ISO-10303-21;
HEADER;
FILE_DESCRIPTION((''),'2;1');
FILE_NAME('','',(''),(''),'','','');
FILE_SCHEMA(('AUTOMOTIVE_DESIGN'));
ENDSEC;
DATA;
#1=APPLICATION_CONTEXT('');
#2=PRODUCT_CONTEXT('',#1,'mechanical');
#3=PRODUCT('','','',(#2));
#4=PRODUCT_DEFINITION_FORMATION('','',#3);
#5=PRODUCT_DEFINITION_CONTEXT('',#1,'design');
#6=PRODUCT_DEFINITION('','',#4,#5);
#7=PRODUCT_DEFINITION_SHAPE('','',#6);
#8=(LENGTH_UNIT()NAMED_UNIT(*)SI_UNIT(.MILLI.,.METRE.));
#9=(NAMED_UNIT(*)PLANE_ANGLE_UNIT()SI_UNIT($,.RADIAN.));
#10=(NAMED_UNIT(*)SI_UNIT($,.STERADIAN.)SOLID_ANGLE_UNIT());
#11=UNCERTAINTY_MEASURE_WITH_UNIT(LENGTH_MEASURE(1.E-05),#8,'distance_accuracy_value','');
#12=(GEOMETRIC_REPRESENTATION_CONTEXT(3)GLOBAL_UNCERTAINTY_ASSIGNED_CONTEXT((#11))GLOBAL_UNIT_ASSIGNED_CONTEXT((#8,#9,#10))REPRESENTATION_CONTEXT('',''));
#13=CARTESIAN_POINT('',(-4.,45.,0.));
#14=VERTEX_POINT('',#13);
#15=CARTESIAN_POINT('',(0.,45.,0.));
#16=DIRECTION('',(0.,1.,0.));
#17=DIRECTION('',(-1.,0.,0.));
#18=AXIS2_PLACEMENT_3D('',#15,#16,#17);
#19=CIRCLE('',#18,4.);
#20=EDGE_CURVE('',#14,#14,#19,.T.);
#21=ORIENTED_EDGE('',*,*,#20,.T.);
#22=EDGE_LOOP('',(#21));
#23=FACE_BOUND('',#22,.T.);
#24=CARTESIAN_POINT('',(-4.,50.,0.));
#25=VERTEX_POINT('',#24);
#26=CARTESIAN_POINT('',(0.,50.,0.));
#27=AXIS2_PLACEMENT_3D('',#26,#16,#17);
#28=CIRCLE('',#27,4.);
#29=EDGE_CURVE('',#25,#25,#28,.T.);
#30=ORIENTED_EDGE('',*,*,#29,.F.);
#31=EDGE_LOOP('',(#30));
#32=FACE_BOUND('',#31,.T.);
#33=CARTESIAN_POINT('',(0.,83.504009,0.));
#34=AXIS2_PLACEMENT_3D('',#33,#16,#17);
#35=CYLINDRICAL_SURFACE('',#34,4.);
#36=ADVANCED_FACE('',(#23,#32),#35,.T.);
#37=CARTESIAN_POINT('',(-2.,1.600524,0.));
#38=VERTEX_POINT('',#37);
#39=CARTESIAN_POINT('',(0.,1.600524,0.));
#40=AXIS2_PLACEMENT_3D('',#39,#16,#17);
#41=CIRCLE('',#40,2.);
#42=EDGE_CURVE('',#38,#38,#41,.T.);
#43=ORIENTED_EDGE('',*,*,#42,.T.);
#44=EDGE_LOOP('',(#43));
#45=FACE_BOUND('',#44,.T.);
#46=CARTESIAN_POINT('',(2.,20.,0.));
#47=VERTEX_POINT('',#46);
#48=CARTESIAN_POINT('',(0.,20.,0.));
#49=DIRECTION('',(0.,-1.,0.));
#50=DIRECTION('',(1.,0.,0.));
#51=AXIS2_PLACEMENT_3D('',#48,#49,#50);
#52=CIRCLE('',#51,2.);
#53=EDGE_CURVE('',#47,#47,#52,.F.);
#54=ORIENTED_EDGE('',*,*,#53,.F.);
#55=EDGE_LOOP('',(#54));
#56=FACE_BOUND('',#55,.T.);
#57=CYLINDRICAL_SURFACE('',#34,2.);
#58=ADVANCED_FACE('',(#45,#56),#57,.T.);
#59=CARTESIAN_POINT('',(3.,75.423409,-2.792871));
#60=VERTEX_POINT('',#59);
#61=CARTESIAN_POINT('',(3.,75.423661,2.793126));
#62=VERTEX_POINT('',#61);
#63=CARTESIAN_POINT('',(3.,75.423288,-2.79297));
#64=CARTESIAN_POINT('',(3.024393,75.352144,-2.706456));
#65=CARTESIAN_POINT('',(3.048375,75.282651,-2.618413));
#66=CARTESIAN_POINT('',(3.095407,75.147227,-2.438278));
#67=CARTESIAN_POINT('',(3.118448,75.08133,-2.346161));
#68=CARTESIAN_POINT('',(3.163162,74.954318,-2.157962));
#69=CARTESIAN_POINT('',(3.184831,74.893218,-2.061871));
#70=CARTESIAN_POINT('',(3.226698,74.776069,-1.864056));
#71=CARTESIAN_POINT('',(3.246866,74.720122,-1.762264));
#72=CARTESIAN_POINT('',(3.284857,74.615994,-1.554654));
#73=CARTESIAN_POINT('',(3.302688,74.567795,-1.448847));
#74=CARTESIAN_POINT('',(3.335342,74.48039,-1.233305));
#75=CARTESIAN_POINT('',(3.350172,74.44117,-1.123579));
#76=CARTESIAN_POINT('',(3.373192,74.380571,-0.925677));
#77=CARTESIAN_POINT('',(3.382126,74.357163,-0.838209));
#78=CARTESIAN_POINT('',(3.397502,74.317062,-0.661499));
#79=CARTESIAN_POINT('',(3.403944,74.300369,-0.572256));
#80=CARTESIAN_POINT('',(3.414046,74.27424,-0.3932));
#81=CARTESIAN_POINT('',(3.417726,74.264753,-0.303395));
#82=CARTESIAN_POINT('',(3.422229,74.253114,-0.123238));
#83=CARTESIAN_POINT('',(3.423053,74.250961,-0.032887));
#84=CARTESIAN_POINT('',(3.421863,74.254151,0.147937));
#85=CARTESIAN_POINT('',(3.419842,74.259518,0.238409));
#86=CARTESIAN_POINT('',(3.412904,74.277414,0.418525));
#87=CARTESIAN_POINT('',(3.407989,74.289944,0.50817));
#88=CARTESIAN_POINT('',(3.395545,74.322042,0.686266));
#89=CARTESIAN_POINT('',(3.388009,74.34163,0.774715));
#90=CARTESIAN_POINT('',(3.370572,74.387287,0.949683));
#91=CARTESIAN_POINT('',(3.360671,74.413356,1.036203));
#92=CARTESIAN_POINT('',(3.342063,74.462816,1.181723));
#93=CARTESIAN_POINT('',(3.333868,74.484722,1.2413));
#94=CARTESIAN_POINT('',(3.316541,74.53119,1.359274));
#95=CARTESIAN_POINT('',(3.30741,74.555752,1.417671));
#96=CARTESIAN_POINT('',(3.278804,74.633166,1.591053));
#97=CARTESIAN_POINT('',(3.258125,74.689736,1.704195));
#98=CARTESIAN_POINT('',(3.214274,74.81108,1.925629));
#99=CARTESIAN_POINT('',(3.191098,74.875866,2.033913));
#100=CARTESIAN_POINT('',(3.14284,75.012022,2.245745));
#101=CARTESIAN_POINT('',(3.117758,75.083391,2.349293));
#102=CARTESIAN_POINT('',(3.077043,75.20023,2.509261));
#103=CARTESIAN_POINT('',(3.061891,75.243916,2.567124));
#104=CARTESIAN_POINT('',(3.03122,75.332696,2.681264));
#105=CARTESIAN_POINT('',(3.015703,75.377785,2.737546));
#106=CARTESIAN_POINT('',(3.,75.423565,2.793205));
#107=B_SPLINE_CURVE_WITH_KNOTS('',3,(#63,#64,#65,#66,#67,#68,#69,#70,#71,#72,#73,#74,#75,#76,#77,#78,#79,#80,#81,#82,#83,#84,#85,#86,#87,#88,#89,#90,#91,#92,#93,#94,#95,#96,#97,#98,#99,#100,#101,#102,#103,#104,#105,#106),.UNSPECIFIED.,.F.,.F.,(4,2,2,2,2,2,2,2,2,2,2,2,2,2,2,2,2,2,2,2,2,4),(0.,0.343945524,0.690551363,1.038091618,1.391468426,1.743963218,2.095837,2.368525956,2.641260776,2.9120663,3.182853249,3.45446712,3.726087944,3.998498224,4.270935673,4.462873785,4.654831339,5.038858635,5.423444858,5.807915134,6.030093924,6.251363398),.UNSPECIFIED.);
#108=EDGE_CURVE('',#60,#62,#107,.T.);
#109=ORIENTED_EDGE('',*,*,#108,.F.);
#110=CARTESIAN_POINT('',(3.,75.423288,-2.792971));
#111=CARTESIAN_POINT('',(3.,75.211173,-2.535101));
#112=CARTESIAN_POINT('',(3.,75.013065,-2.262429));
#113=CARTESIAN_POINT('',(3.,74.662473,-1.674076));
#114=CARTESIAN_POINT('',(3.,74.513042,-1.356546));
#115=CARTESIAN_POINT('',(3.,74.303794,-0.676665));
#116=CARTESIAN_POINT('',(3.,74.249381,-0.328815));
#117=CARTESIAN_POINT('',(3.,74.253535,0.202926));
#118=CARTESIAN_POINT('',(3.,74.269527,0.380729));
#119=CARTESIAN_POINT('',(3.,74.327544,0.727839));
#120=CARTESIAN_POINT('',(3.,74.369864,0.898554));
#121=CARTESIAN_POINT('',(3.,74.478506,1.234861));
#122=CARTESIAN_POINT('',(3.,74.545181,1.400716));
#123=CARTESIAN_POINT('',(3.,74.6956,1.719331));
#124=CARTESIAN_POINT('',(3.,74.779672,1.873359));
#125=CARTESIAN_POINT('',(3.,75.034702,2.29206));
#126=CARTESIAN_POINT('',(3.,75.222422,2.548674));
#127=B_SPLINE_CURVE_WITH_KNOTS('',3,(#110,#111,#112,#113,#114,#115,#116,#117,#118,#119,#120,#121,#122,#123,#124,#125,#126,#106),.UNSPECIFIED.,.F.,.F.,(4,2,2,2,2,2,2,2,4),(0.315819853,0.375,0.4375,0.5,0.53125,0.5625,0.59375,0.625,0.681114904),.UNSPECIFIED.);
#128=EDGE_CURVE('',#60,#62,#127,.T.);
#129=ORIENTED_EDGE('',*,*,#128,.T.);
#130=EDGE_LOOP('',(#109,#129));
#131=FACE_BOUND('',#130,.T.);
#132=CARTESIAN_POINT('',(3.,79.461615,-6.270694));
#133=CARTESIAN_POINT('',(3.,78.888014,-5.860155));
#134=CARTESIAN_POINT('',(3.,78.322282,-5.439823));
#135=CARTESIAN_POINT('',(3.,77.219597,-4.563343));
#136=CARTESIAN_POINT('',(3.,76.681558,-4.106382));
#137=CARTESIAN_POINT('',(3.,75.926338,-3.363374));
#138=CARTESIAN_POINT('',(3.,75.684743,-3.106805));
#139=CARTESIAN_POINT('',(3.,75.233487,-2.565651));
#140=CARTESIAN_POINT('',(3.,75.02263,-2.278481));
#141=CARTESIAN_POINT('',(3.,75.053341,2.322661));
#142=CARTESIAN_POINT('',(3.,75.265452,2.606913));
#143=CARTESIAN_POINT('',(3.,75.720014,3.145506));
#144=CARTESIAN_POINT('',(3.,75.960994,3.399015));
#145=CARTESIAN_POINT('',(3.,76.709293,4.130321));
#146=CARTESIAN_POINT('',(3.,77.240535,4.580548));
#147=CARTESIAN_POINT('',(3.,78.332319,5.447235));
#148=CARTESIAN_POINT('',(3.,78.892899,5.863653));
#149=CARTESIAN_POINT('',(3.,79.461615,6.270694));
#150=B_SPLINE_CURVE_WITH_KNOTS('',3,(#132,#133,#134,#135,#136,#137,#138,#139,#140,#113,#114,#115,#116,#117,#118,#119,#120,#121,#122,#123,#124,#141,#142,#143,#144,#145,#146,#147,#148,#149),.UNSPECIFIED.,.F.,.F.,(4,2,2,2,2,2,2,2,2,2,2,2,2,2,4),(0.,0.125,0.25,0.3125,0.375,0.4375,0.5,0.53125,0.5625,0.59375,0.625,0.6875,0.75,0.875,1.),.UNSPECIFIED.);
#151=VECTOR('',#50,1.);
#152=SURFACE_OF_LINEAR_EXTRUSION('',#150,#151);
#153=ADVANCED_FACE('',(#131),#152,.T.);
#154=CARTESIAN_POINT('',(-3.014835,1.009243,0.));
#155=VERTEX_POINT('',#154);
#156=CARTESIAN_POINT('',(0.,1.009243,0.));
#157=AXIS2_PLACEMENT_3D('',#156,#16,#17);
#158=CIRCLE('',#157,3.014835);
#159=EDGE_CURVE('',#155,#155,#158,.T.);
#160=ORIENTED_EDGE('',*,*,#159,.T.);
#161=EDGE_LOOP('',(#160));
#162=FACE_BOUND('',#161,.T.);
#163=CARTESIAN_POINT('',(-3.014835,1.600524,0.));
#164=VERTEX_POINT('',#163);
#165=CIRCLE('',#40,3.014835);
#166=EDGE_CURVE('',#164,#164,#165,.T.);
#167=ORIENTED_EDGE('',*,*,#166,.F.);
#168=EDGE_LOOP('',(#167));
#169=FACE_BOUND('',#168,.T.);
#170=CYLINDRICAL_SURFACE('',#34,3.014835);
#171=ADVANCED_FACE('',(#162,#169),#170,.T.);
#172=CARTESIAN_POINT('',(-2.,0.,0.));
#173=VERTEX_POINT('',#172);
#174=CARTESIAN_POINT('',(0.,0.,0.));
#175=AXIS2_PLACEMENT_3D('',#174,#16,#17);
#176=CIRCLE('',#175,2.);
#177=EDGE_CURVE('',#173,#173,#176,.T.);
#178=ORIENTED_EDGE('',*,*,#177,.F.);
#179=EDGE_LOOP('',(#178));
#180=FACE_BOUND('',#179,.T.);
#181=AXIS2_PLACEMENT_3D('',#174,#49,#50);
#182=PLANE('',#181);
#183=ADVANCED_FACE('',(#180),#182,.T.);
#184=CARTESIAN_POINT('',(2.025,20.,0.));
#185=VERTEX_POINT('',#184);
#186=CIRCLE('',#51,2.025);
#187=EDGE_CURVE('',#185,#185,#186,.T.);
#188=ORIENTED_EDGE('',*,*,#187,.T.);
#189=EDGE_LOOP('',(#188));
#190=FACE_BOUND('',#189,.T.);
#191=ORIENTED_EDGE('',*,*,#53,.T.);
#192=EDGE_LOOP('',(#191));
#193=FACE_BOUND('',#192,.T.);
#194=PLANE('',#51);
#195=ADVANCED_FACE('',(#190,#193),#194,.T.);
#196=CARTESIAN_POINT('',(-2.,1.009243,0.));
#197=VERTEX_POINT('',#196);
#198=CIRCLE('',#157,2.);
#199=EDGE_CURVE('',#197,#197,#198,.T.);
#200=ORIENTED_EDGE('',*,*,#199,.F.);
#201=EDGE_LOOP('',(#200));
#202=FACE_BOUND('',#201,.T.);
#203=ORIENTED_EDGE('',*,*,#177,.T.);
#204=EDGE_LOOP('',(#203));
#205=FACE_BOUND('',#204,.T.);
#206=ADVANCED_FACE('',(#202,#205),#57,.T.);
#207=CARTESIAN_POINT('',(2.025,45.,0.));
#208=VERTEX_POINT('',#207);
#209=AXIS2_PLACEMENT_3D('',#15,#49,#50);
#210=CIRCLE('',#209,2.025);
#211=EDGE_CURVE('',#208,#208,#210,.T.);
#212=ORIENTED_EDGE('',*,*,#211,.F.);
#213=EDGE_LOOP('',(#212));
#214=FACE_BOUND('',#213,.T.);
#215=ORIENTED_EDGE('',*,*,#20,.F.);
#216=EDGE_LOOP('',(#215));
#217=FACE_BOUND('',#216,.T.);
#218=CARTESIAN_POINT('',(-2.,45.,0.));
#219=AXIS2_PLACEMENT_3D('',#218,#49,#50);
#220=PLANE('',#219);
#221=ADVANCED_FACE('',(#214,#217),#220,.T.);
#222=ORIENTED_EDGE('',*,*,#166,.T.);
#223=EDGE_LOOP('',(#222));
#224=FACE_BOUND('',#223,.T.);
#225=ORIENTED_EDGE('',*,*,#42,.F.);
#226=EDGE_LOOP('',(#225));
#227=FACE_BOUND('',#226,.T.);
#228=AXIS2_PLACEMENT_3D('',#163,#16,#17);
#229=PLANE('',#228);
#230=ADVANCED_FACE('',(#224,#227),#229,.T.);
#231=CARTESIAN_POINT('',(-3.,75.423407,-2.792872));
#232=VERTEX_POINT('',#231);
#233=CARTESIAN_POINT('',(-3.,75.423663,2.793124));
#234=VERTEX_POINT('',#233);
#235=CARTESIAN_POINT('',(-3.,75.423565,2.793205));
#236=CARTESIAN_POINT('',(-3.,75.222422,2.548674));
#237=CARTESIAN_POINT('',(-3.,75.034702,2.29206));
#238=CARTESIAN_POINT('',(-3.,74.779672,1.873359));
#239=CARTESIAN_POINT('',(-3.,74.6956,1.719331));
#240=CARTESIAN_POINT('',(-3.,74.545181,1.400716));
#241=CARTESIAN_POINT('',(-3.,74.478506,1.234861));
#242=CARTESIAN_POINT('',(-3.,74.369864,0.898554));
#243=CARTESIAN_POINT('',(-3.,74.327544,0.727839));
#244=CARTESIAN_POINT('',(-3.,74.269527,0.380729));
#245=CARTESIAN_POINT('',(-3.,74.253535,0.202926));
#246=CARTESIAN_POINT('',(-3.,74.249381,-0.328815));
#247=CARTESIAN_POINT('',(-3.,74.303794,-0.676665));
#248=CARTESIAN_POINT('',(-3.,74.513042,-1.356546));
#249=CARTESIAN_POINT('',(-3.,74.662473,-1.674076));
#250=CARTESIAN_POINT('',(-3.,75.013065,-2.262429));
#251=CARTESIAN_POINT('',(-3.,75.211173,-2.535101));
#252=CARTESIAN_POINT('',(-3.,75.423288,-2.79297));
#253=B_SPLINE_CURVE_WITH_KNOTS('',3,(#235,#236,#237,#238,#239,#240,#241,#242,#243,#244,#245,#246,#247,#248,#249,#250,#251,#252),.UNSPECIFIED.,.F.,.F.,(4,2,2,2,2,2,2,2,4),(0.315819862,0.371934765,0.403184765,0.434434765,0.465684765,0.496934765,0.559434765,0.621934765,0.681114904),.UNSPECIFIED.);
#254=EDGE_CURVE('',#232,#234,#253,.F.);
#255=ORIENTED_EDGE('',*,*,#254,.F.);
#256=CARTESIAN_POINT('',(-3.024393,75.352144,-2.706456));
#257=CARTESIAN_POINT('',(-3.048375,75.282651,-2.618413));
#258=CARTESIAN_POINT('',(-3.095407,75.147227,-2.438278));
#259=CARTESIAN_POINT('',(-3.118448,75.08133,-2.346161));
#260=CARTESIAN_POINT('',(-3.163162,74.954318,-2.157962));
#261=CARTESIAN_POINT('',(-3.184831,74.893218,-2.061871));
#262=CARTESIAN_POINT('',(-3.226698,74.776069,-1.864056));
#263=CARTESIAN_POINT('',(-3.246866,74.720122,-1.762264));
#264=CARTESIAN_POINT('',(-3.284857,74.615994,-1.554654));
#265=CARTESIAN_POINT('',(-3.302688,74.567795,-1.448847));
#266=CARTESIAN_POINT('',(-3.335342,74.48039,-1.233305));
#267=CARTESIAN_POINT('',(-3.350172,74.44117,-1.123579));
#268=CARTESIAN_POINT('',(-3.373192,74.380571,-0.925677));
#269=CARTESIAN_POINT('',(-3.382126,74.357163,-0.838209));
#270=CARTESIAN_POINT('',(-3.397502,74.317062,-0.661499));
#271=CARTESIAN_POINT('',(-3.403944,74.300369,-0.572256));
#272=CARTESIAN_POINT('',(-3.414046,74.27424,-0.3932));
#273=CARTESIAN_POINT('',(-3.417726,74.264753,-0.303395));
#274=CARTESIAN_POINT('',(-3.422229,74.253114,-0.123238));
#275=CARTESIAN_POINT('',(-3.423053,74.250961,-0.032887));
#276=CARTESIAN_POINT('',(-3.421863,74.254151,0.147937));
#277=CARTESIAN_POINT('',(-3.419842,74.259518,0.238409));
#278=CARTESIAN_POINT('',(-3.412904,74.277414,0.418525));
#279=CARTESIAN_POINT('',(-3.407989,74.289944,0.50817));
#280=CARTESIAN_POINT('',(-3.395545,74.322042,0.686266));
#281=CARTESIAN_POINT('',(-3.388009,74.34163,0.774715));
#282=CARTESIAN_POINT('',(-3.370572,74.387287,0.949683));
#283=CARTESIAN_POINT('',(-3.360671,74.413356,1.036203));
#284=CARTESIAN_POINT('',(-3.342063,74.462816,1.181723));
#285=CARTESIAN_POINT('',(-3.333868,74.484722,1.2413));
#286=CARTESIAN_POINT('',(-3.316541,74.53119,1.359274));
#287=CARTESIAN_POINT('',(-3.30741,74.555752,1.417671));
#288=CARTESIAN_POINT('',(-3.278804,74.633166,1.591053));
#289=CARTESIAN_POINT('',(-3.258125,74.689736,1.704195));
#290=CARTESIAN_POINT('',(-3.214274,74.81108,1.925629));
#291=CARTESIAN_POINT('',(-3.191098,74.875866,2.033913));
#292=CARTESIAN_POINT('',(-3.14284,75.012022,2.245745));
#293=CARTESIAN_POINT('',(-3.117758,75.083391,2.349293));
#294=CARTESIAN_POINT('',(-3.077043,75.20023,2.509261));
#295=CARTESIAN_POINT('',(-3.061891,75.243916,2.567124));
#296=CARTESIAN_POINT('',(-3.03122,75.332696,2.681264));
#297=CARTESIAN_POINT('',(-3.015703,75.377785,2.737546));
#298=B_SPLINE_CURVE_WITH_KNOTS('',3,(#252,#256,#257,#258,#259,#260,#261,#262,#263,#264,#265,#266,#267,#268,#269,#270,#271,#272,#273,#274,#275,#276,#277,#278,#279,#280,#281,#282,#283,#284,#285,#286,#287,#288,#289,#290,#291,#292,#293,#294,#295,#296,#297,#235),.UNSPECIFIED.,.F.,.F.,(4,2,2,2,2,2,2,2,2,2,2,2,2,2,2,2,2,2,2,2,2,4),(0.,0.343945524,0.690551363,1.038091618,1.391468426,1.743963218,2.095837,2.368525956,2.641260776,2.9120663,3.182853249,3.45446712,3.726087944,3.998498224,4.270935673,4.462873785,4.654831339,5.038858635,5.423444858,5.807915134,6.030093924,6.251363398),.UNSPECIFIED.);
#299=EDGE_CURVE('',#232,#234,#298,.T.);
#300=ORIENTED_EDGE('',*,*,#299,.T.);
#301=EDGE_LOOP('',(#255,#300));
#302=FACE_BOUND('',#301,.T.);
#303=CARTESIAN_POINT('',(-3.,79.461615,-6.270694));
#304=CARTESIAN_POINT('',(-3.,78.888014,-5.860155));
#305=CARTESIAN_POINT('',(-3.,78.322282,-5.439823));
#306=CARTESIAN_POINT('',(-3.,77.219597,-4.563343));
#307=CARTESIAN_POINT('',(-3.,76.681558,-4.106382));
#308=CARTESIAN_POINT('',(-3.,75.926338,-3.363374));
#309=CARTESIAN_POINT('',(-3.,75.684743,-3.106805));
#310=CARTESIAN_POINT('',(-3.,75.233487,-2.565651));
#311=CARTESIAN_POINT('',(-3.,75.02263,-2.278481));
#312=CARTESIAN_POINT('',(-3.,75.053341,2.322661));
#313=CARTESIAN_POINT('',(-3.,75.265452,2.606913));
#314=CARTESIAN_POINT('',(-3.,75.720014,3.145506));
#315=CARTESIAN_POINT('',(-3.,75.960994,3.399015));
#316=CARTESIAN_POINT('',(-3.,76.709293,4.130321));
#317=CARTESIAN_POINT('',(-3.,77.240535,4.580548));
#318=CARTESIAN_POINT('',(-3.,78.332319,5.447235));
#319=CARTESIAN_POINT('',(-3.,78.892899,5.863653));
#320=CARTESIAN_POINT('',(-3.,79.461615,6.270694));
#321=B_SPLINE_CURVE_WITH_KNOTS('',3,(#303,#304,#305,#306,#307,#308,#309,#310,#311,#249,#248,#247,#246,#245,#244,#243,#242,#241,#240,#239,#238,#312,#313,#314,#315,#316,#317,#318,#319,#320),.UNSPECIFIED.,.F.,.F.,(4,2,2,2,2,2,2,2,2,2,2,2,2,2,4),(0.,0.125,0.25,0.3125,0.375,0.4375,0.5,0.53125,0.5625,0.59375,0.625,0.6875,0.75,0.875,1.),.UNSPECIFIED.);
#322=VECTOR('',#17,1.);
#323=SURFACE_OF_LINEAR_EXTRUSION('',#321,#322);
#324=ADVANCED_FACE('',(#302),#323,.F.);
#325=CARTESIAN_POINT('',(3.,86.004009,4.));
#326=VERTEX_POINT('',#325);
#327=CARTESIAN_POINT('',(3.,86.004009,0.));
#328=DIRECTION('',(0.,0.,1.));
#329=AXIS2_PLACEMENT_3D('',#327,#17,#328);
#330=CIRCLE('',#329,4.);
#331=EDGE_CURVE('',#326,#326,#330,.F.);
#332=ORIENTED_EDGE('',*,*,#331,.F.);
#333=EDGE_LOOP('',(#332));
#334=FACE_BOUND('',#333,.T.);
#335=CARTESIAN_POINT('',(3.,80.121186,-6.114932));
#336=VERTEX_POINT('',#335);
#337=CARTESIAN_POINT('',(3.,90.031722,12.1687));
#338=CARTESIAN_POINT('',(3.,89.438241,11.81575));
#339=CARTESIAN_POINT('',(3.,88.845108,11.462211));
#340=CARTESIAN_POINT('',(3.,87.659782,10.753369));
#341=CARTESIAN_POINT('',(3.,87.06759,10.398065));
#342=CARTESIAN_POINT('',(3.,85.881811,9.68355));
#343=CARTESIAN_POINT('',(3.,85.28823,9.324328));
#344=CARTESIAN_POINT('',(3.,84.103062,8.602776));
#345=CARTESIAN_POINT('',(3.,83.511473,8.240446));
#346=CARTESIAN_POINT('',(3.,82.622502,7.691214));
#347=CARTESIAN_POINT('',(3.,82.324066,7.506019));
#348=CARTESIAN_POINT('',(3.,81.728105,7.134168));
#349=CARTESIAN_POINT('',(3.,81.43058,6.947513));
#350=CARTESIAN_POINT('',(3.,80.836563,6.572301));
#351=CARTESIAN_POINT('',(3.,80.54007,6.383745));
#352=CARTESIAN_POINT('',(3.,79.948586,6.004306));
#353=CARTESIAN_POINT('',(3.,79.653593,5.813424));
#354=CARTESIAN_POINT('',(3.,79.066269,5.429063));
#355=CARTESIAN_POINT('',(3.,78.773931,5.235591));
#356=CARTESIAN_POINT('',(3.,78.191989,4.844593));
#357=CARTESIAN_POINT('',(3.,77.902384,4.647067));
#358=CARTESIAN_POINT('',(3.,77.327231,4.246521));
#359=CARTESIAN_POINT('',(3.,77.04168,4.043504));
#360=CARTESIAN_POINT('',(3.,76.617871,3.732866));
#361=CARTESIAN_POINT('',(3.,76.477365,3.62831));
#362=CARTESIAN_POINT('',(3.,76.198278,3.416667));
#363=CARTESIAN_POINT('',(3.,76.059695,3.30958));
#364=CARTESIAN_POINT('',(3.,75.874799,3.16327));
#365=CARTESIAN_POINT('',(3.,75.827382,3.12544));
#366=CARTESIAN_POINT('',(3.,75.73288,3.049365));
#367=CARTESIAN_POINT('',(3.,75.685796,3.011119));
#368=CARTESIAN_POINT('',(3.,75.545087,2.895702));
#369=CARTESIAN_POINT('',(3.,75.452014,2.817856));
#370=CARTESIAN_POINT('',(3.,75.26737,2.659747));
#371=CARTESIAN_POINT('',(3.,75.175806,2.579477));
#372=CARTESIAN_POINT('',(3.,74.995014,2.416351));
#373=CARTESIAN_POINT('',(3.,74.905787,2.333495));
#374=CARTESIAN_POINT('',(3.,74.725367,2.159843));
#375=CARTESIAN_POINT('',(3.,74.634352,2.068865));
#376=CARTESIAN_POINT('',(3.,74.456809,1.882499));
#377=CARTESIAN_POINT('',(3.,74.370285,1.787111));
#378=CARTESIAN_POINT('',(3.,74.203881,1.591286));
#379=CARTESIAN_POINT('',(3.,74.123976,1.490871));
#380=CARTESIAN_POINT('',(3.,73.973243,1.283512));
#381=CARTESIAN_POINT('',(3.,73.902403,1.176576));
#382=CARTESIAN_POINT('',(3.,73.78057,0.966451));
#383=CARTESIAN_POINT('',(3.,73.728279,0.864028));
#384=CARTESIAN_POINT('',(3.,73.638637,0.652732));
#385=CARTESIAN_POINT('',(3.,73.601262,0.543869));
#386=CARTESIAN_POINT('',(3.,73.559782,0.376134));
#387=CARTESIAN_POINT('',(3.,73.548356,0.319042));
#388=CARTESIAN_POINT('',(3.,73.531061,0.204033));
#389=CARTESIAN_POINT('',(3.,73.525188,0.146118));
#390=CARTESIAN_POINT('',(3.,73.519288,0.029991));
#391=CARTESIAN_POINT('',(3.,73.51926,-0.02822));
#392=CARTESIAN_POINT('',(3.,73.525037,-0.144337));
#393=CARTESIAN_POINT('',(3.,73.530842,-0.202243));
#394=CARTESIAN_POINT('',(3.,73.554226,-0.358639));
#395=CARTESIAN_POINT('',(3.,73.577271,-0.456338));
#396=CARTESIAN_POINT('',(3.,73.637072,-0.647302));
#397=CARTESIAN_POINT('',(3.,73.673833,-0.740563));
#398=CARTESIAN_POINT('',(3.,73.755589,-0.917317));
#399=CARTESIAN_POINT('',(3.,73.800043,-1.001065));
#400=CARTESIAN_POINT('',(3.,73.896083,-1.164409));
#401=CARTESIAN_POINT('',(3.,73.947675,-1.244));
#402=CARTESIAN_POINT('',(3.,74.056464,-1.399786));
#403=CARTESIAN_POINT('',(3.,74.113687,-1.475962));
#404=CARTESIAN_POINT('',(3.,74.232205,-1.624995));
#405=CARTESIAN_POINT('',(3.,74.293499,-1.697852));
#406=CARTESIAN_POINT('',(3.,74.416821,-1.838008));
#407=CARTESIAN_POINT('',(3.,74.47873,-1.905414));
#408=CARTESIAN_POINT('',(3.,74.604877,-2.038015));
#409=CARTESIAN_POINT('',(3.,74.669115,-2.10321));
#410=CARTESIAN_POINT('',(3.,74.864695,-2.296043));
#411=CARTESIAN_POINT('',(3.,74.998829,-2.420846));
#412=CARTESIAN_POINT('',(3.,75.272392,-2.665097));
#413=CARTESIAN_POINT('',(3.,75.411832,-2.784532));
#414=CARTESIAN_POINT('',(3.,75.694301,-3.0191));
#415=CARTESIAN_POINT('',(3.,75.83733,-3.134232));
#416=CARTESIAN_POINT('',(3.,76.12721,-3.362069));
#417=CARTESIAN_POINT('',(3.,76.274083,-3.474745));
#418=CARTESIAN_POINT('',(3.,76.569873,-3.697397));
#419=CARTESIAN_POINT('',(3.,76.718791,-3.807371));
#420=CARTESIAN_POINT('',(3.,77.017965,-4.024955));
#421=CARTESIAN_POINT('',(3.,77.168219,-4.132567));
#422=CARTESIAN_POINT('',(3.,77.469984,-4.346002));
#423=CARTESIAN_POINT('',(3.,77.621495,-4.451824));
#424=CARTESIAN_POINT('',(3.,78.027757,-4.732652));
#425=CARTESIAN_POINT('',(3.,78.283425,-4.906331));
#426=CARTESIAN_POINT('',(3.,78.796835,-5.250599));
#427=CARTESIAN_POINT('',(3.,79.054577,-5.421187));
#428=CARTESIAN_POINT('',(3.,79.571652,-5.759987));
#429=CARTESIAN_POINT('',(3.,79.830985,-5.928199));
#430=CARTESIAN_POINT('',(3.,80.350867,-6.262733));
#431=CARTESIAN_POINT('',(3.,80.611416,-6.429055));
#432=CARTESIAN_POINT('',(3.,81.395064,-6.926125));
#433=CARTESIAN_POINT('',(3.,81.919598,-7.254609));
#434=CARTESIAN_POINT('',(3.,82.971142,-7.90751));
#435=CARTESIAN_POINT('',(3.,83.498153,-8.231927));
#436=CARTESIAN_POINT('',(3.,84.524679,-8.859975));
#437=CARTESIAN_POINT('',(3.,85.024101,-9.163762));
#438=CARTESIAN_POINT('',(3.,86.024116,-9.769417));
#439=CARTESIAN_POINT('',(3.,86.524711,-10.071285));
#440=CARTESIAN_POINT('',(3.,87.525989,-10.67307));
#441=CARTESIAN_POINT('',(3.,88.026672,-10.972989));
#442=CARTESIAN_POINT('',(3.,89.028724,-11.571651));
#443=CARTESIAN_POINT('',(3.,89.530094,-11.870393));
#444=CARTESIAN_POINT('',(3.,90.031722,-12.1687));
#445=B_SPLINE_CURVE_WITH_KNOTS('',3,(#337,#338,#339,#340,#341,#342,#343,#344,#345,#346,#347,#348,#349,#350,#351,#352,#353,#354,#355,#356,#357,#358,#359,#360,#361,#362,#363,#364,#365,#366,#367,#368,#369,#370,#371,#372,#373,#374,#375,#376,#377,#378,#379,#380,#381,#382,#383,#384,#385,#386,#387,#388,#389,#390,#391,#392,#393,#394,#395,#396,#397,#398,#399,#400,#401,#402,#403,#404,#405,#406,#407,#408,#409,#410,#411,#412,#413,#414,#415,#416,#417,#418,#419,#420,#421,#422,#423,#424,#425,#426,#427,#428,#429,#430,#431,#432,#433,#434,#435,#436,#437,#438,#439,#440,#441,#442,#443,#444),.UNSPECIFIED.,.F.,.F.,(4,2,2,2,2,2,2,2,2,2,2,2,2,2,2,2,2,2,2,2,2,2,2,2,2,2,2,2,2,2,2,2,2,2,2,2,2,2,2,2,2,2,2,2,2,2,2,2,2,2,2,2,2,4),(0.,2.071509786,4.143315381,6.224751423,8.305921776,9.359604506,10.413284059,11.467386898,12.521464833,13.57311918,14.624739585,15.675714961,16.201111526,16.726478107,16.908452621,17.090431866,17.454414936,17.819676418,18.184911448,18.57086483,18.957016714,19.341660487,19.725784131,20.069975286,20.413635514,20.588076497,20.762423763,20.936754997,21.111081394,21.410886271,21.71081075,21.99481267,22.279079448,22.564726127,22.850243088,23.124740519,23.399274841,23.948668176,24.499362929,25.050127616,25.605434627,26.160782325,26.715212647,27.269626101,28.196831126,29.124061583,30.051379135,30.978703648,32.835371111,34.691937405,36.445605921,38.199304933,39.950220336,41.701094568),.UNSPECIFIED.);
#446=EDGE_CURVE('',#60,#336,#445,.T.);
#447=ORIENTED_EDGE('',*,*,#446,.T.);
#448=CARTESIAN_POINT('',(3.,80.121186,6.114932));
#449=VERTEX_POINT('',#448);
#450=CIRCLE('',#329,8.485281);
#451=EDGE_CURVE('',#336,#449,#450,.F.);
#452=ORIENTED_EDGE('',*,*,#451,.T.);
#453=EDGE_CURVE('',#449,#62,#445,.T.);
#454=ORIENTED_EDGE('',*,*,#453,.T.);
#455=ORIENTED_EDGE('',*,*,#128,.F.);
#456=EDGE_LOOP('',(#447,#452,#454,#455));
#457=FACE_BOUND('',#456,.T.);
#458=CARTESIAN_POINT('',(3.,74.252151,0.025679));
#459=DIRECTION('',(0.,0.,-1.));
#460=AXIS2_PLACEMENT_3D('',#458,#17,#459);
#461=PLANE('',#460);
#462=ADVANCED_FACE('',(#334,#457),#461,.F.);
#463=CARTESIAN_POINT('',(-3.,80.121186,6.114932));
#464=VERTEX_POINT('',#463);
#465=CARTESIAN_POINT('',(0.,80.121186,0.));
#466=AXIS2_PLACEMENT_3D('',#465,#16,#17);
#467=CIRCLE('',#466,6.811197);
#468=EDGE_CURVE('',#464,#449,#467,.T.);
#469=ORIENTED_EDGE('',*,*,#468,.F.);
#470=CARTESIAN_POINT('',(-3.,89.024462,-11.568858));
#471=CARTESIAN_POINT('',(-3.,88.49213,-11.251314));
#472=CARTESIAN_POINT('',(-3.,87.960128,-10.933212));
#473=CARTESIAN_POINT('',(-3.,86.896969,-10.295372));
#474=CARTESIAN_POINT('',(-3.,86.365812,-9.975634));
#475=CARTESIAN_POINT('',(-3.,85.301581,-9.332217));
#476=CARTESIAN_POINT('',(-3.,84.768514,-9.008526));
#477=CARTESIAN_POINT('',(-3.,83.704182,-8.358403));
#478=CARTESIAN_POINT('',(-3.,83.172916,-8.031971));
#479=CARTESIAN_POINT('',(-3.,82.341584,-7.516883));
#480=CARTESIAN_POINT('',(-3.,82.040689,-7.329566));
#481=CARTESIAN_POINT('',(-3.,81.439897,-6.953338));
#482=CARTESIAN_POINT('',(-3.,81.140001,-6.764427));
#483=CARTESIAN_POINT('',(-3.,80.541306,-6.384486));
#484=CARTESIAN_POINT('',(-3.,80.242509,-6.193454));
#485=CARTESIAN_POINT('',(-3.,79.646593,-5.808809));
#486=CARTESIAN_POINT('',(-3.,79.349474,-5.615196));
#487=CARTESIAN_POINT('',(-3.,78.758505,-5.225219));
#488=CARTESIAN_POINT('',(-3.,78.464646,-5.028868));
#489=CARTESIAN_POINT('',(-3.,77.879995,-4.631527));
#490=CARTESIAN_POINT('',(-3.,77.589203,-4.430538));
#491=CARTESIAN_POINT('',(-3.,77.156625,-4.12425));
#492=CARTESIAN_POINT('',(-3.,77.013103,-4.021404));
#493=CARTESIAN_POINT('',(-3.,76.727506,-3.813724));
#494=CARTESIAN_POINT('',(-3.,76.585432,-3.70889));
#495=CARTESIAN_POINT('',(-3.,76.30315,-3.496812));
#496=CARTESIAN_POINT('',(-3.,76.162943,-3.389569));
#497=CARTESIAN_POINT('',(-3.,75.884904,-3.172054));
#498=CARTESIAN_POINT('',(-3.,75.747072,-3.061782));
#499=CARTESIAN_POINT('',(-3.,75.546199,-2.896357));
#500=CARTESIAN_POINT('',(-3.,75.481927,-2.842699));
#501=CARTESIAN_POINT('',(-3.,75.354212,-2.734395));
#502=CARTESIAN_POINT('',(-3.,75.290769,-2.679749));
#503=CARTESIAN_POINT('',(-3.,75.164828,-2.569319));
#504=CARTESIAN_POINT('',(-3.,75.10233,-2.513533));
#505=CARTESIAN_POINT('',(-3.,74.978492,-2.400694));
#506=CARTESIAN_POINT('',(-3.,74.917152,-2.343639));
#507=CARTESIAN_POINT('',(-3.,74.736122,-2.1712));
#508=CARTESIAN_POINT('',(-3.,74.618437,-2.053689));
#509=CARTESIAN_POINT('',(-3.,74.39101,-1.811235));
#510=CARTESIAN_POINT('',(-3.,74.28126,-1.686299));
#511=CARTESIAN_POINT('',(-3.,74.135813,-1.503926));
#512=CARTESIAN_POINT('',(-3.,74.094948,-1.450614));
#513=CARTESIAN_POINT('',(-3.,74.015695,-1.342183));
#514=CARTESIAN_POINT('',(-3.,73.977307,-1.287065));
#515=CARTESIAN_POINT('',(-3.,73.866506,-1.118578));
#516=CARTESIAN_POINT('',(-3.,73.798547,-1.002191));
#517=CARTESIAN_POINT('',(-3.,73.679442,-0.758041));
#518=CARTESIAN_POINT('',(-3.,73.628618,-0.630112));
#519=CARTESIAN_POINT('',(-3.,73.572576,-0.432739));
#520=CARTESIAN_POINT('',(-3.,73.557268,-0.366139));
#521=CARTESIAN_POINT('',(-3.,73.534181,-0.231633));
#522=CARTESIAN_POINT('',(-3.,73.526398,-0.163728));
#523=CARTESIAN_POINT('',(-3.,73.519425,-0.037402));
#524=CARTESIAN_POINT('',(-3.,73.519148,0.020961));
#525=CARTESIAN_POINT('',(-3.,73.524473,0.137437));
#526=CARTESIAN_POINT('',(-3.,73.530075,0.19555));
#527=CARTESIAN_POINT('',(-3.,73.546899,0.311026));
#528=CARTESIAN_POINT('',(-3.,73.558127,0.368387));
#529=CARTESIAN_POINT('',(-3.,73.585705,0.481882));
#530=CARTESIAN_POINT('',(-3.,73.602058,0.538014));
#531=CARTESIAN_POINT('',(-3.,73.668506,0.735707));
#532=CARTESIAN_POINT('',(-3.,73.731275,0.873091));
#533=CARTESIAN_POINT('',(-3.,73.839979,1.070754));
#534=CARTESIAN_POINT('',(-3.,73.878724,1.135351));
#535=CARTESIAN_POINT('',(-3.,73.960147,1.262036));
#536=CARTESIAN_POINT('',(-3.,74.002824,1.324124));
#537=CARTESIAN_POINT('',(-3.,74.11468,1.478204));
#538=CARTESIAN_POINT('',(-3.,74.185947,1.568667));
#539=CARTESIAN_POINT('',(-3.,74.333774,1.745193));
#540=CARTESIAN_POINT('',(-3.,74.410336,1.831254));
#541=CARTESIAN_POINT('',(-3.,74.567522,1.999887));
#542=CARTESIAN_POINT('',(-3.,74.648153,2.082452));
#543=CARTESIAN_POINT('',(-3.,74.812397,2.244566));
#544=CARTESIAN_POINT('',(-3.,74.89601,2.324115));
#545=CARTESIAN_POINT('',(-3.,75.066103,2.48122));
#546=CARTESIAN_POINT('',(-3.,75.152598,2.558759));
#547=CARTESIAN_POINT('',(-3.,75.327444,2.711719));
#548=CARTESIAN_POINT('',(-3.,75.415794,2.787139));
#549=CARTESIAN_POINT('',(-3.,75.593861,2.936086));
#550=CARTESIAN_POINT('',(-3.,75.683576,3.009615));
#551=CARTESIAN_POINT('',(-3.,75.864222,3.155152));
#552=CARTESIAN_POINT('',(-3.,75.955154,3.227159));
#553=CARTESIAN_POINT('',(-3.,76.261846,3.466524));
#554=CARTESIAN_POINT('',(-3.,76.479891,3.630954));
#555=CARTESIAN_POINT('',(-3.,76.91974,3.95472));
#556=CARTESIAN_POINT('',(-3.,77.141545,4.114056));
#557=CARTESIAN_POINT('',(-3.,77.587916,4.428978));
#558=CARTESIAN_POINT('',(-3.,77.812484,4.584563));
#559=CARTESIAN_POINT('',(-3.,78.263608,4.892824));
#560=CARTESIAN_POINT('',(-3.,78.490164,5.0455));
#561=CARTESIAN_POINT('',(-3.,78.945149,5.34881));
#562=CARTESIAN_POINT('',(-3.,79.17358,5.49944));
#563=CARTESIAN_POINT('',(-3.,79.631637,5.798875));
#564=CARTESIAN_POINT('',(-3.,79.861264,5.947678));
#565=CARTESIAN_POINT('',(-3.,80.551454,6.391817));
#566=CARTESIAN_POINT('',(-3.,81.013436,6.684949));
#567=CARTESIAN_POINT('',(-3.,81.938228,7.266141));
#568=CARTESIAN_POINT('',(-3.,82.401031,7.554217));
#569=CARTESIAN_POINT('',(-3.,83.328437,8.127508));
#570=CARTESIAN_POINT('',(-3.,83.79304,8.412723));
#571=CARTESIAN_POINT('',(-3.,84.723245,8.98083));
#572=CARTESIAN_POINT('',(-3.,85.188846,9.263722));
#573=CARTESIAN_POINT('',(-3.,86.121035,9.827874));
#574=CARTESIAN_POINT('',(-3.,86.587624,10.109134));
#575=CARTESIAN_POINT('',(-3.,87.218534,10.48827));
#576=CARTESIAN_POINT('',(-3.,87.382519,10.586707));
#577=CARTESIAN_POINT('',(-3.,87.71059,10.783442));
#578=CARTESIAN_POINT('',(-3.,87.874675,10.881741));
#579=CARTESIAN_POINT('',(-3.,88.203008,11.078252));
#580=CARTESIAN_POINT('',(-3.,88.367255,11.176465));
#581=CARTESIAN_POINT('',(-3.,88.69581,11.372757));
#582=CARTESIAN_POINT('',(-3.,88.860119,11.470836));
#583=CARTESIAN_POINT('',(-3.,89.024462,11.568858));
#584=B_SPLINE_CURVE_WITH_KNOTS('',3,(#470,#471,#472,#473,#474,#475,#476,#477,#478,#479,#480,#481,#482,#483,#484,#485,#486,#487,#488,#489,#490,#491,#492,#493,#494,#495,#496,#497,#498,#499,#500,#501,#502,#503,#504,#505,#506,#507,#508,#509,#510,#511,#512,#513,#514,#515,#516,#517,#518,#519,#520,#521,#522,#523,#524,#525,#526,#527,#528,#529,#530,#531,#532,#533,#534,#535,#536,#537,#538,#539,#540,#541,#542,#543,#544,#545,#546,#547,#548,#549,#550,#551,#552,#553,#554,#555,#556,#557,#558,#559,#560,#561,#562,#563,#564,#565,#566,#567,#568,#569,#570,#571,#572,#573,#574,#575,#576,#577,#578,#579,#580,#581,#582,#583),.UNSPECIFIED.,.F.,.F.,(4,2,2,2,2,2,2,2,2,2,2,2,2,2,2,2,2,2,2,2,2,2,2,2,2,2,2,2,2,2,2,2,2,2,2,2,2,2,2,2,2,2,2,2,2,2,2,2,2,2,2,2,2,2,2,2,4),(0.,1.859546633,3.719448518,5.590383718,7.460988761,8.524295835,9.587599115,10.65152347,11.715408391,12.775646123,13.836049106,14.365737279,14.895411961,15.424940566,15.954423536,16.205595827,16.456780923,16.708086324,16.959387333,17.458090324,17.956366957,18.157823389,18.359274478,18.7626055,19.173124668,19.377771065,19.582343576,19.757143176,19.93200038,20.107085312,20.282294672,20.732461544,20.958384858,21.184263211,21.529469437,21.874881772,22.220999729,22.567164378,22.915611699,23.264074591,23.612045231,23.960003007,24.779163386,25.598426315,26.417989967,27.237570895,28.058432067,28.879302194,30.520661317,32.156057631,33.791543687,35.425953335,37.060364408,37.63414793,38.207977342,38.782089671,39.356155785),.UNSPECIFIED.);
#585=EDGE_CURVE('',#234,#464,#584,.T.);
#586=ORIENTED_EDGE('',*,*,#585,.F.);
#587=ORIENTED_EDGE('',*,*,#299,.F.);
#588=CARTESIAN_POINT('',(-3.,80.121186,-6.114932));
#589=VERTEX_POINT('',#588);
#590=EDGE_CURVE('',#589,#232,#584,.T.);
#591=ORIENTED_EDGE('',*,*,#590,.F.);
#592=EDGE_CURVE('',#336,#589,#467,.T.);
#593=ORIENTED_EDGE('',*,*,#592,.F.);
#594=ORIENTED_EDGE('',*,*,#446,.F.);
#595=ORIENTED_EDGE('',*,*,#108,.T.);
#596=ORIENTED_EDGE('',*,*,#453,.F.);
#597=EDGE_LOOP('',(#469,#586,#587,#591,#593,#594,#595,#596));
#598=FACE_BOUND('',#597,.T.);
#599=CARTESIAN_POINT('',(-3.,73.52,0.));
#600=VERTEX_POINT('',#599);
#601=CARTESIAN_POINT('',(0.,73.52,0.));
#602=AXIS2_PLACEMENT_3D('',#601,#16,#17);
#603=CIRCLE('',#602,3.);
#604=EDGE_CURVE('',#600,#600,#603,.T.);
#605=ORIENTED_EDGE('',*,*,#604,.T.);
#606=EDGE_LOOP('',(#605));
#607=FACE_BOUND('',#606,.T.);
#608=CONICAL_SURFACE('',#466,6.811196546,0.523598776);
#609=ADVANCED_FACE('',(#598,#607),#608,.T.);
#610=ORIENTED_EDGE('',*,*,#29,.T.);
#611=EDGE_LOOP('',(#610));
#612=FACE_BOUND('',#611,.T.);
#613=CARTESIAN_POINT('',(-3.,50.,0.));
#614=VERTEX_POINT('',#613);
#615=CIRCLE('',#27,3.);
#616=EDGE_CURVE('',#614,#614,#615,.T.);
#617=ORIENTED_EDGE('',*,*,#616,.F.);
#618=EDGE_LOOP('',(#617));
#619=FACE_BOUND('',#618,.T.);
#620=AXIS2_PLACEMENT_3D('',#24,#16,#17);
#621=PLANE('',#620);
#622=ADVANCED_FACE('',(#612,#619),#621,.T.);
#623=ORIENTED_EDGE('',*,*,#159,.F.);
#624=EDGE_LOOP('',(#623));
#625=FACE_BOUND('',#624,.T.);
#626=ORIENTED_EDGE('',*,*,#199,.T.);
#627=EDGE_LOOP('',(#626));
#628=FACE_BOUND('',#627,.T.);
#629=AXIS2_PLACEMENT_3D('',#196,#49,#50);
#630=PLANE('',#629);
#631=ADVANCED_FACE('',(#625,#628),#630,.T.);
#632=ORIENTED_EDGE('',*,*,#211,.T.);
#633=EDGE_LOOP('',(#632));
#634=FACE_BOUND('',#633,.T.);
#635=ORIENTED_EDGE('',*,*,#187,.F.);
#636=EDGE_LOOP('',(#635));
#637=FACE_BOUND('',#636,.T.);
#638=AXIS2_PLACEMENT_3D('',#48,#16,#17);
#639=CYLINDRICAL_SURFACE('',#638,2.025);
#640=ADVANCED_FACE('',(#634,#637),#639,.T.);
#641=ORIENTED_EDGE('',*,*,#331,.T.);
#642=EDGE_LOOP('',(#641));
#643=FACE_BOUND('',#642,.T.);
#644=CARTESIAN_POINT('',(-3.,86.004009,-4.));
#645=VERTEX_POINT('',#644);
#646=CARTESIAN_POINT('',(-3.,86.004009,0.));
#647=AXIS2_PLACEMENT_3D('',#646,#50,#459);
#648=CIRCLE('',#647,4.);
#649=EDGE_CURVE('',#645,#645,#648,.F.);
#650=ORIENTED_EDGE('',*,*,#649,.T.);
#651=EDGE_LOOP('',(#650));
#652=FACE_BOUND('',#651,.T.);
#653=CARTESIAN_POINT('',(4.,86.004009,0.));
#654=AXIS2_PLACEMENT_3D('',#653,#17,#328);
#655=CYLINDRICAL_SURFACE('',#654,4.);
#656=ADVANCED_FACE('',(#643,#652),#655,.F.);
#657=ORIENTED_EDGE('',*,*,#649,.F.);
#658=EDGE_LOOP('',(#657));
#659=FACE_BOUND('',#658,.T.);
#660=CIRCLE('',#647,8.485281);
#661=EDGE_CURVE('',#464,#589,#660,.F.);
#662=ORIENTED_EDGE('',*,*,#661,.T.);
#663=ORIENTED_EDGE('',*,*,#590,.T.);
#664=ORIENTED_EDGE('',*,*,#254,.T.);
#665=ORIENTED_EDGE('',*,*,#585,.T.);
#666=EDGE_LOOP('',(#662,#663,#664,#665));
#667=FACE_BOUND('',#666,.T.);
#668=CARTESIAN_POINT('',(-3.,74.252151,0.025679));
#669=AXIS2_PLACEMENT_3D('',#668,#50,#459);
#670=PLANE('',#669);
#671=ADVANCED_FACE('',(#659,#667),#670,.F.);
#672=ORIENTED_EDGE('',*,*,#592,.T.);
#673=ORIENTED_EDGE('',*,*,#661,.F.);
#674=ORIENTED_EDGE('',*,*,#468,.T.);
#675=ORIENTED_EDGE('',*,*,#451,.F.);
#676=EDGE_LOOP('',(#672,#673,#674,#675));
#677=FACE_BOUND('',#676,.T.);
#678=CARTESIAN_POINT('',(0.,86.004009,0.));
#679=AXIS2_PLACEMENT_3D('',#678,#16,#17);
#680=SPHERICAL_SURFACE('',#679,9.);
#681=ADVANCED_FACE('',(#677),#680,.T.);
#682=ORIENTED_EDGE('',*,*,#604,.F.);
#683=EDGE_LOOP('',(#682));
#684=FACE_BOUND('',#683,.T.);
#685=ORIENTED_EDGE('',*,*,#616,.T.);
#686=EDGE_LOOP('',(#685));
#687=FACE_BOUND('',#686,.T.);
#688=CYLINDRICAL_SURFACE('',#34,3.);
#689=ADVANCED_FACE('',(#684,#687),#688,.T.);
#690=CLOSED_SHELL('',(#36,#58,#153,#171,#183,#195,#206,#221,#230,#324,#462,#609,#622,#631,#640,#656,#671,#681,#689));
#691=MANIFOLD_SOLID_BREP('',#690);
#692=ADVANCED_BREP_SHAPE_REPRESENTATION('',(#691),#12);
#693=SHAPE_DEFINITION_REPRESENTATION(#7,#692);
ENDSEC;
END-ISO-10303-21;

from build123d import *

# Parameters (mm, degrees)
SZKIC2_W                    = 5.611911117
SZKIC2_H                    = 18
WYTNIJ_WYCI_GNI_CIE3_DEPTH  = 200
SZKIC3_R                    = 4
WYTNIJ_WYCI_GNI_CIE4_DEPTH  = 9
WYTNIJ_WYCI_GNI_CIE5_DEPTH  = 1
SZKIC5_R                    = 2.025
DODANIE_WYCI_GNI_CIE1_DEPTH = 25


with BuildPart() as part:
    # Szkic1 → Obrót1 (revolve)
    with BuildSketch(Plane.XY):
        with BuildLine():
            Line((0, 0), (-2, 0))
            Line((-2, 0), (-2, 1.009242946))
            Line((-2, 1.009242946), (-3.014835025, 1.009242946))
            Line((-3.014835025, 1.009242946), (-3.014835025, 1.600524218))
            Line((-3.014835025, 1.600524218), (-2, 1.600524218))
            Line((-2, 1.600524218), (-2, 45))
            Line((-2, 45), (-4, 45))
            Line((-4, 45), (-4, 50))
            Line((-4, 50), (-3, 50))
            Line((-3, 50), (-3, 73.52))
            Line((-3, 73.52), (-6.811196546, 80.121186056))
            ThreePointArc((-6.811196546, 80.121186056), (-8.18368509, 89.74931215), (0, 95.004008644))
            Line((0, 95.004008644), (0, 88.504008644))
            ThreePointArc((0, 88.504008644), (-2.5, 86.004008644), (0, 83.504008644))
            Line((0, 83.504008644), (0, 0))
        make_face()
    revolve(axis=Axis((0, 83.504008644, 0), (0, -1, 0)))

    # Szkic2 → Wytnij-wyciągnięcie3 (cut)
    with BuildSketch(Plane(origin=(0, 0, 0), x_dir=(1, 0, 0), z_dir=(0, 1, 0))):
        with Locations((-6.805955559, 0)):
            Rectangle(SZKIC2_W, SZKIC2_H)
        with Locations((6.805955559, 0)):
            Rectangle(SZKIC2_W, SZKIC2_H)
    extrude(amount=WYTNIJ_WYCI_GNI_CIE3_DEPTH, mode=Mode.SUBTRACT)

    # Szkic3 → Wytnij-wyciągnięcie4 (cut, through all)
    with BuildSketch(Plane.ZY.offset(4)):
        with Locations((0, 86.004008644)):
            Circle(SZKIC3_R)
    extrude(amount=-WYTNIJ_WYCI_GNI_CIE4_DEPTH, mode=Mode.SUBTRACT)

    # Szkic4 → Wytnij-wyciągnięcie5 (cut)
    with BuildSketch(Plane.ZY.offset(4)):
        with BuildLine():
            ThreePointArc((6.270693727, 79.461614917), (-1.54e-07, 95.066266393), (-6.270693505, 79.461614705))
            add(Edge.make_bspline(
                [(-6.270693505, 79.461614705), (-5.860155238, 78.888013675), (-5.439822901, 78.322282195), (-4.56334323, 77.21959664), (-4.106381954, 76.681557874), (-3.363374021, 75.926338216), (-3.10680463, 75.684743321), (-2.565651322, 75.233486624), (-2.278481074, 75.02263049), (-1.674076312, 74.662473364), (-1.356546022, 74.513041633), (-0.676664628, 74.303793525), (-0.328815369, 74.249380941), (0.202925796, 74.253535488), (0.380729476, 74.269527018), (0.727839454, 74.32754423), (0.898553898, 74.369864163), (1.234860958, 74.478505876), (1.400715996, 74.545180561), (1.719331355, 74.695600019), (1.873358854, 74.779672361), (2.32266111, 75.053340603), (2.606912587, 75.265451803), (3.145505929, 75.720013642), (3.399015103, 75.960994151), (4.130320647, 76.709293024), (4.580547786, 77.240534568), (5.447234702, 78.332319258), (5.863652605, 78.892898741), (6.270693727, 79.461614917)],
                knots=[0, 0, 0, 0, 0.125, 0.125, 0.25, 0.25, 0.3125, 0.3125, 0.375, 0.375, 0.4375, 0.4375, 0.5, 0.5, 0.53125, 0.53125, 0.5625, 0.5625, 0.59375, 0.59375, 0.625, 0.625, 0.6875, 0.6875, 0.75, 0.75, 0.875, 0.875, 1, 1, 1, 1], degree=3))
        make_face()
    wytnij_wyci_gni_cie5 = extrude(amount=-WYTNIJ_WYCI_GNI_CIE5_DEPTH, mode=Mode.SUBTRACT)

    # Lustro1: Wytnij-wyciągnięcie5 across plane
    add(wytnij_wyci_gni_cie5.mirror(Plane(origin=(0, 0, 0), x_dir=(0, 0, 1), z_dir=(1, 0, 0))), mode=Mode.SUBTRACT)

    # Szkic5 → Dodanie-wyciągnięcie1 (add)
    with BuildSketch(Plane.XZ.offset(-45)):
        Circle(SZKIC5_R)
    extrude(amount=DODANIE_WYCI_GNI_CIE1_DEPTH)


solid = part.part
